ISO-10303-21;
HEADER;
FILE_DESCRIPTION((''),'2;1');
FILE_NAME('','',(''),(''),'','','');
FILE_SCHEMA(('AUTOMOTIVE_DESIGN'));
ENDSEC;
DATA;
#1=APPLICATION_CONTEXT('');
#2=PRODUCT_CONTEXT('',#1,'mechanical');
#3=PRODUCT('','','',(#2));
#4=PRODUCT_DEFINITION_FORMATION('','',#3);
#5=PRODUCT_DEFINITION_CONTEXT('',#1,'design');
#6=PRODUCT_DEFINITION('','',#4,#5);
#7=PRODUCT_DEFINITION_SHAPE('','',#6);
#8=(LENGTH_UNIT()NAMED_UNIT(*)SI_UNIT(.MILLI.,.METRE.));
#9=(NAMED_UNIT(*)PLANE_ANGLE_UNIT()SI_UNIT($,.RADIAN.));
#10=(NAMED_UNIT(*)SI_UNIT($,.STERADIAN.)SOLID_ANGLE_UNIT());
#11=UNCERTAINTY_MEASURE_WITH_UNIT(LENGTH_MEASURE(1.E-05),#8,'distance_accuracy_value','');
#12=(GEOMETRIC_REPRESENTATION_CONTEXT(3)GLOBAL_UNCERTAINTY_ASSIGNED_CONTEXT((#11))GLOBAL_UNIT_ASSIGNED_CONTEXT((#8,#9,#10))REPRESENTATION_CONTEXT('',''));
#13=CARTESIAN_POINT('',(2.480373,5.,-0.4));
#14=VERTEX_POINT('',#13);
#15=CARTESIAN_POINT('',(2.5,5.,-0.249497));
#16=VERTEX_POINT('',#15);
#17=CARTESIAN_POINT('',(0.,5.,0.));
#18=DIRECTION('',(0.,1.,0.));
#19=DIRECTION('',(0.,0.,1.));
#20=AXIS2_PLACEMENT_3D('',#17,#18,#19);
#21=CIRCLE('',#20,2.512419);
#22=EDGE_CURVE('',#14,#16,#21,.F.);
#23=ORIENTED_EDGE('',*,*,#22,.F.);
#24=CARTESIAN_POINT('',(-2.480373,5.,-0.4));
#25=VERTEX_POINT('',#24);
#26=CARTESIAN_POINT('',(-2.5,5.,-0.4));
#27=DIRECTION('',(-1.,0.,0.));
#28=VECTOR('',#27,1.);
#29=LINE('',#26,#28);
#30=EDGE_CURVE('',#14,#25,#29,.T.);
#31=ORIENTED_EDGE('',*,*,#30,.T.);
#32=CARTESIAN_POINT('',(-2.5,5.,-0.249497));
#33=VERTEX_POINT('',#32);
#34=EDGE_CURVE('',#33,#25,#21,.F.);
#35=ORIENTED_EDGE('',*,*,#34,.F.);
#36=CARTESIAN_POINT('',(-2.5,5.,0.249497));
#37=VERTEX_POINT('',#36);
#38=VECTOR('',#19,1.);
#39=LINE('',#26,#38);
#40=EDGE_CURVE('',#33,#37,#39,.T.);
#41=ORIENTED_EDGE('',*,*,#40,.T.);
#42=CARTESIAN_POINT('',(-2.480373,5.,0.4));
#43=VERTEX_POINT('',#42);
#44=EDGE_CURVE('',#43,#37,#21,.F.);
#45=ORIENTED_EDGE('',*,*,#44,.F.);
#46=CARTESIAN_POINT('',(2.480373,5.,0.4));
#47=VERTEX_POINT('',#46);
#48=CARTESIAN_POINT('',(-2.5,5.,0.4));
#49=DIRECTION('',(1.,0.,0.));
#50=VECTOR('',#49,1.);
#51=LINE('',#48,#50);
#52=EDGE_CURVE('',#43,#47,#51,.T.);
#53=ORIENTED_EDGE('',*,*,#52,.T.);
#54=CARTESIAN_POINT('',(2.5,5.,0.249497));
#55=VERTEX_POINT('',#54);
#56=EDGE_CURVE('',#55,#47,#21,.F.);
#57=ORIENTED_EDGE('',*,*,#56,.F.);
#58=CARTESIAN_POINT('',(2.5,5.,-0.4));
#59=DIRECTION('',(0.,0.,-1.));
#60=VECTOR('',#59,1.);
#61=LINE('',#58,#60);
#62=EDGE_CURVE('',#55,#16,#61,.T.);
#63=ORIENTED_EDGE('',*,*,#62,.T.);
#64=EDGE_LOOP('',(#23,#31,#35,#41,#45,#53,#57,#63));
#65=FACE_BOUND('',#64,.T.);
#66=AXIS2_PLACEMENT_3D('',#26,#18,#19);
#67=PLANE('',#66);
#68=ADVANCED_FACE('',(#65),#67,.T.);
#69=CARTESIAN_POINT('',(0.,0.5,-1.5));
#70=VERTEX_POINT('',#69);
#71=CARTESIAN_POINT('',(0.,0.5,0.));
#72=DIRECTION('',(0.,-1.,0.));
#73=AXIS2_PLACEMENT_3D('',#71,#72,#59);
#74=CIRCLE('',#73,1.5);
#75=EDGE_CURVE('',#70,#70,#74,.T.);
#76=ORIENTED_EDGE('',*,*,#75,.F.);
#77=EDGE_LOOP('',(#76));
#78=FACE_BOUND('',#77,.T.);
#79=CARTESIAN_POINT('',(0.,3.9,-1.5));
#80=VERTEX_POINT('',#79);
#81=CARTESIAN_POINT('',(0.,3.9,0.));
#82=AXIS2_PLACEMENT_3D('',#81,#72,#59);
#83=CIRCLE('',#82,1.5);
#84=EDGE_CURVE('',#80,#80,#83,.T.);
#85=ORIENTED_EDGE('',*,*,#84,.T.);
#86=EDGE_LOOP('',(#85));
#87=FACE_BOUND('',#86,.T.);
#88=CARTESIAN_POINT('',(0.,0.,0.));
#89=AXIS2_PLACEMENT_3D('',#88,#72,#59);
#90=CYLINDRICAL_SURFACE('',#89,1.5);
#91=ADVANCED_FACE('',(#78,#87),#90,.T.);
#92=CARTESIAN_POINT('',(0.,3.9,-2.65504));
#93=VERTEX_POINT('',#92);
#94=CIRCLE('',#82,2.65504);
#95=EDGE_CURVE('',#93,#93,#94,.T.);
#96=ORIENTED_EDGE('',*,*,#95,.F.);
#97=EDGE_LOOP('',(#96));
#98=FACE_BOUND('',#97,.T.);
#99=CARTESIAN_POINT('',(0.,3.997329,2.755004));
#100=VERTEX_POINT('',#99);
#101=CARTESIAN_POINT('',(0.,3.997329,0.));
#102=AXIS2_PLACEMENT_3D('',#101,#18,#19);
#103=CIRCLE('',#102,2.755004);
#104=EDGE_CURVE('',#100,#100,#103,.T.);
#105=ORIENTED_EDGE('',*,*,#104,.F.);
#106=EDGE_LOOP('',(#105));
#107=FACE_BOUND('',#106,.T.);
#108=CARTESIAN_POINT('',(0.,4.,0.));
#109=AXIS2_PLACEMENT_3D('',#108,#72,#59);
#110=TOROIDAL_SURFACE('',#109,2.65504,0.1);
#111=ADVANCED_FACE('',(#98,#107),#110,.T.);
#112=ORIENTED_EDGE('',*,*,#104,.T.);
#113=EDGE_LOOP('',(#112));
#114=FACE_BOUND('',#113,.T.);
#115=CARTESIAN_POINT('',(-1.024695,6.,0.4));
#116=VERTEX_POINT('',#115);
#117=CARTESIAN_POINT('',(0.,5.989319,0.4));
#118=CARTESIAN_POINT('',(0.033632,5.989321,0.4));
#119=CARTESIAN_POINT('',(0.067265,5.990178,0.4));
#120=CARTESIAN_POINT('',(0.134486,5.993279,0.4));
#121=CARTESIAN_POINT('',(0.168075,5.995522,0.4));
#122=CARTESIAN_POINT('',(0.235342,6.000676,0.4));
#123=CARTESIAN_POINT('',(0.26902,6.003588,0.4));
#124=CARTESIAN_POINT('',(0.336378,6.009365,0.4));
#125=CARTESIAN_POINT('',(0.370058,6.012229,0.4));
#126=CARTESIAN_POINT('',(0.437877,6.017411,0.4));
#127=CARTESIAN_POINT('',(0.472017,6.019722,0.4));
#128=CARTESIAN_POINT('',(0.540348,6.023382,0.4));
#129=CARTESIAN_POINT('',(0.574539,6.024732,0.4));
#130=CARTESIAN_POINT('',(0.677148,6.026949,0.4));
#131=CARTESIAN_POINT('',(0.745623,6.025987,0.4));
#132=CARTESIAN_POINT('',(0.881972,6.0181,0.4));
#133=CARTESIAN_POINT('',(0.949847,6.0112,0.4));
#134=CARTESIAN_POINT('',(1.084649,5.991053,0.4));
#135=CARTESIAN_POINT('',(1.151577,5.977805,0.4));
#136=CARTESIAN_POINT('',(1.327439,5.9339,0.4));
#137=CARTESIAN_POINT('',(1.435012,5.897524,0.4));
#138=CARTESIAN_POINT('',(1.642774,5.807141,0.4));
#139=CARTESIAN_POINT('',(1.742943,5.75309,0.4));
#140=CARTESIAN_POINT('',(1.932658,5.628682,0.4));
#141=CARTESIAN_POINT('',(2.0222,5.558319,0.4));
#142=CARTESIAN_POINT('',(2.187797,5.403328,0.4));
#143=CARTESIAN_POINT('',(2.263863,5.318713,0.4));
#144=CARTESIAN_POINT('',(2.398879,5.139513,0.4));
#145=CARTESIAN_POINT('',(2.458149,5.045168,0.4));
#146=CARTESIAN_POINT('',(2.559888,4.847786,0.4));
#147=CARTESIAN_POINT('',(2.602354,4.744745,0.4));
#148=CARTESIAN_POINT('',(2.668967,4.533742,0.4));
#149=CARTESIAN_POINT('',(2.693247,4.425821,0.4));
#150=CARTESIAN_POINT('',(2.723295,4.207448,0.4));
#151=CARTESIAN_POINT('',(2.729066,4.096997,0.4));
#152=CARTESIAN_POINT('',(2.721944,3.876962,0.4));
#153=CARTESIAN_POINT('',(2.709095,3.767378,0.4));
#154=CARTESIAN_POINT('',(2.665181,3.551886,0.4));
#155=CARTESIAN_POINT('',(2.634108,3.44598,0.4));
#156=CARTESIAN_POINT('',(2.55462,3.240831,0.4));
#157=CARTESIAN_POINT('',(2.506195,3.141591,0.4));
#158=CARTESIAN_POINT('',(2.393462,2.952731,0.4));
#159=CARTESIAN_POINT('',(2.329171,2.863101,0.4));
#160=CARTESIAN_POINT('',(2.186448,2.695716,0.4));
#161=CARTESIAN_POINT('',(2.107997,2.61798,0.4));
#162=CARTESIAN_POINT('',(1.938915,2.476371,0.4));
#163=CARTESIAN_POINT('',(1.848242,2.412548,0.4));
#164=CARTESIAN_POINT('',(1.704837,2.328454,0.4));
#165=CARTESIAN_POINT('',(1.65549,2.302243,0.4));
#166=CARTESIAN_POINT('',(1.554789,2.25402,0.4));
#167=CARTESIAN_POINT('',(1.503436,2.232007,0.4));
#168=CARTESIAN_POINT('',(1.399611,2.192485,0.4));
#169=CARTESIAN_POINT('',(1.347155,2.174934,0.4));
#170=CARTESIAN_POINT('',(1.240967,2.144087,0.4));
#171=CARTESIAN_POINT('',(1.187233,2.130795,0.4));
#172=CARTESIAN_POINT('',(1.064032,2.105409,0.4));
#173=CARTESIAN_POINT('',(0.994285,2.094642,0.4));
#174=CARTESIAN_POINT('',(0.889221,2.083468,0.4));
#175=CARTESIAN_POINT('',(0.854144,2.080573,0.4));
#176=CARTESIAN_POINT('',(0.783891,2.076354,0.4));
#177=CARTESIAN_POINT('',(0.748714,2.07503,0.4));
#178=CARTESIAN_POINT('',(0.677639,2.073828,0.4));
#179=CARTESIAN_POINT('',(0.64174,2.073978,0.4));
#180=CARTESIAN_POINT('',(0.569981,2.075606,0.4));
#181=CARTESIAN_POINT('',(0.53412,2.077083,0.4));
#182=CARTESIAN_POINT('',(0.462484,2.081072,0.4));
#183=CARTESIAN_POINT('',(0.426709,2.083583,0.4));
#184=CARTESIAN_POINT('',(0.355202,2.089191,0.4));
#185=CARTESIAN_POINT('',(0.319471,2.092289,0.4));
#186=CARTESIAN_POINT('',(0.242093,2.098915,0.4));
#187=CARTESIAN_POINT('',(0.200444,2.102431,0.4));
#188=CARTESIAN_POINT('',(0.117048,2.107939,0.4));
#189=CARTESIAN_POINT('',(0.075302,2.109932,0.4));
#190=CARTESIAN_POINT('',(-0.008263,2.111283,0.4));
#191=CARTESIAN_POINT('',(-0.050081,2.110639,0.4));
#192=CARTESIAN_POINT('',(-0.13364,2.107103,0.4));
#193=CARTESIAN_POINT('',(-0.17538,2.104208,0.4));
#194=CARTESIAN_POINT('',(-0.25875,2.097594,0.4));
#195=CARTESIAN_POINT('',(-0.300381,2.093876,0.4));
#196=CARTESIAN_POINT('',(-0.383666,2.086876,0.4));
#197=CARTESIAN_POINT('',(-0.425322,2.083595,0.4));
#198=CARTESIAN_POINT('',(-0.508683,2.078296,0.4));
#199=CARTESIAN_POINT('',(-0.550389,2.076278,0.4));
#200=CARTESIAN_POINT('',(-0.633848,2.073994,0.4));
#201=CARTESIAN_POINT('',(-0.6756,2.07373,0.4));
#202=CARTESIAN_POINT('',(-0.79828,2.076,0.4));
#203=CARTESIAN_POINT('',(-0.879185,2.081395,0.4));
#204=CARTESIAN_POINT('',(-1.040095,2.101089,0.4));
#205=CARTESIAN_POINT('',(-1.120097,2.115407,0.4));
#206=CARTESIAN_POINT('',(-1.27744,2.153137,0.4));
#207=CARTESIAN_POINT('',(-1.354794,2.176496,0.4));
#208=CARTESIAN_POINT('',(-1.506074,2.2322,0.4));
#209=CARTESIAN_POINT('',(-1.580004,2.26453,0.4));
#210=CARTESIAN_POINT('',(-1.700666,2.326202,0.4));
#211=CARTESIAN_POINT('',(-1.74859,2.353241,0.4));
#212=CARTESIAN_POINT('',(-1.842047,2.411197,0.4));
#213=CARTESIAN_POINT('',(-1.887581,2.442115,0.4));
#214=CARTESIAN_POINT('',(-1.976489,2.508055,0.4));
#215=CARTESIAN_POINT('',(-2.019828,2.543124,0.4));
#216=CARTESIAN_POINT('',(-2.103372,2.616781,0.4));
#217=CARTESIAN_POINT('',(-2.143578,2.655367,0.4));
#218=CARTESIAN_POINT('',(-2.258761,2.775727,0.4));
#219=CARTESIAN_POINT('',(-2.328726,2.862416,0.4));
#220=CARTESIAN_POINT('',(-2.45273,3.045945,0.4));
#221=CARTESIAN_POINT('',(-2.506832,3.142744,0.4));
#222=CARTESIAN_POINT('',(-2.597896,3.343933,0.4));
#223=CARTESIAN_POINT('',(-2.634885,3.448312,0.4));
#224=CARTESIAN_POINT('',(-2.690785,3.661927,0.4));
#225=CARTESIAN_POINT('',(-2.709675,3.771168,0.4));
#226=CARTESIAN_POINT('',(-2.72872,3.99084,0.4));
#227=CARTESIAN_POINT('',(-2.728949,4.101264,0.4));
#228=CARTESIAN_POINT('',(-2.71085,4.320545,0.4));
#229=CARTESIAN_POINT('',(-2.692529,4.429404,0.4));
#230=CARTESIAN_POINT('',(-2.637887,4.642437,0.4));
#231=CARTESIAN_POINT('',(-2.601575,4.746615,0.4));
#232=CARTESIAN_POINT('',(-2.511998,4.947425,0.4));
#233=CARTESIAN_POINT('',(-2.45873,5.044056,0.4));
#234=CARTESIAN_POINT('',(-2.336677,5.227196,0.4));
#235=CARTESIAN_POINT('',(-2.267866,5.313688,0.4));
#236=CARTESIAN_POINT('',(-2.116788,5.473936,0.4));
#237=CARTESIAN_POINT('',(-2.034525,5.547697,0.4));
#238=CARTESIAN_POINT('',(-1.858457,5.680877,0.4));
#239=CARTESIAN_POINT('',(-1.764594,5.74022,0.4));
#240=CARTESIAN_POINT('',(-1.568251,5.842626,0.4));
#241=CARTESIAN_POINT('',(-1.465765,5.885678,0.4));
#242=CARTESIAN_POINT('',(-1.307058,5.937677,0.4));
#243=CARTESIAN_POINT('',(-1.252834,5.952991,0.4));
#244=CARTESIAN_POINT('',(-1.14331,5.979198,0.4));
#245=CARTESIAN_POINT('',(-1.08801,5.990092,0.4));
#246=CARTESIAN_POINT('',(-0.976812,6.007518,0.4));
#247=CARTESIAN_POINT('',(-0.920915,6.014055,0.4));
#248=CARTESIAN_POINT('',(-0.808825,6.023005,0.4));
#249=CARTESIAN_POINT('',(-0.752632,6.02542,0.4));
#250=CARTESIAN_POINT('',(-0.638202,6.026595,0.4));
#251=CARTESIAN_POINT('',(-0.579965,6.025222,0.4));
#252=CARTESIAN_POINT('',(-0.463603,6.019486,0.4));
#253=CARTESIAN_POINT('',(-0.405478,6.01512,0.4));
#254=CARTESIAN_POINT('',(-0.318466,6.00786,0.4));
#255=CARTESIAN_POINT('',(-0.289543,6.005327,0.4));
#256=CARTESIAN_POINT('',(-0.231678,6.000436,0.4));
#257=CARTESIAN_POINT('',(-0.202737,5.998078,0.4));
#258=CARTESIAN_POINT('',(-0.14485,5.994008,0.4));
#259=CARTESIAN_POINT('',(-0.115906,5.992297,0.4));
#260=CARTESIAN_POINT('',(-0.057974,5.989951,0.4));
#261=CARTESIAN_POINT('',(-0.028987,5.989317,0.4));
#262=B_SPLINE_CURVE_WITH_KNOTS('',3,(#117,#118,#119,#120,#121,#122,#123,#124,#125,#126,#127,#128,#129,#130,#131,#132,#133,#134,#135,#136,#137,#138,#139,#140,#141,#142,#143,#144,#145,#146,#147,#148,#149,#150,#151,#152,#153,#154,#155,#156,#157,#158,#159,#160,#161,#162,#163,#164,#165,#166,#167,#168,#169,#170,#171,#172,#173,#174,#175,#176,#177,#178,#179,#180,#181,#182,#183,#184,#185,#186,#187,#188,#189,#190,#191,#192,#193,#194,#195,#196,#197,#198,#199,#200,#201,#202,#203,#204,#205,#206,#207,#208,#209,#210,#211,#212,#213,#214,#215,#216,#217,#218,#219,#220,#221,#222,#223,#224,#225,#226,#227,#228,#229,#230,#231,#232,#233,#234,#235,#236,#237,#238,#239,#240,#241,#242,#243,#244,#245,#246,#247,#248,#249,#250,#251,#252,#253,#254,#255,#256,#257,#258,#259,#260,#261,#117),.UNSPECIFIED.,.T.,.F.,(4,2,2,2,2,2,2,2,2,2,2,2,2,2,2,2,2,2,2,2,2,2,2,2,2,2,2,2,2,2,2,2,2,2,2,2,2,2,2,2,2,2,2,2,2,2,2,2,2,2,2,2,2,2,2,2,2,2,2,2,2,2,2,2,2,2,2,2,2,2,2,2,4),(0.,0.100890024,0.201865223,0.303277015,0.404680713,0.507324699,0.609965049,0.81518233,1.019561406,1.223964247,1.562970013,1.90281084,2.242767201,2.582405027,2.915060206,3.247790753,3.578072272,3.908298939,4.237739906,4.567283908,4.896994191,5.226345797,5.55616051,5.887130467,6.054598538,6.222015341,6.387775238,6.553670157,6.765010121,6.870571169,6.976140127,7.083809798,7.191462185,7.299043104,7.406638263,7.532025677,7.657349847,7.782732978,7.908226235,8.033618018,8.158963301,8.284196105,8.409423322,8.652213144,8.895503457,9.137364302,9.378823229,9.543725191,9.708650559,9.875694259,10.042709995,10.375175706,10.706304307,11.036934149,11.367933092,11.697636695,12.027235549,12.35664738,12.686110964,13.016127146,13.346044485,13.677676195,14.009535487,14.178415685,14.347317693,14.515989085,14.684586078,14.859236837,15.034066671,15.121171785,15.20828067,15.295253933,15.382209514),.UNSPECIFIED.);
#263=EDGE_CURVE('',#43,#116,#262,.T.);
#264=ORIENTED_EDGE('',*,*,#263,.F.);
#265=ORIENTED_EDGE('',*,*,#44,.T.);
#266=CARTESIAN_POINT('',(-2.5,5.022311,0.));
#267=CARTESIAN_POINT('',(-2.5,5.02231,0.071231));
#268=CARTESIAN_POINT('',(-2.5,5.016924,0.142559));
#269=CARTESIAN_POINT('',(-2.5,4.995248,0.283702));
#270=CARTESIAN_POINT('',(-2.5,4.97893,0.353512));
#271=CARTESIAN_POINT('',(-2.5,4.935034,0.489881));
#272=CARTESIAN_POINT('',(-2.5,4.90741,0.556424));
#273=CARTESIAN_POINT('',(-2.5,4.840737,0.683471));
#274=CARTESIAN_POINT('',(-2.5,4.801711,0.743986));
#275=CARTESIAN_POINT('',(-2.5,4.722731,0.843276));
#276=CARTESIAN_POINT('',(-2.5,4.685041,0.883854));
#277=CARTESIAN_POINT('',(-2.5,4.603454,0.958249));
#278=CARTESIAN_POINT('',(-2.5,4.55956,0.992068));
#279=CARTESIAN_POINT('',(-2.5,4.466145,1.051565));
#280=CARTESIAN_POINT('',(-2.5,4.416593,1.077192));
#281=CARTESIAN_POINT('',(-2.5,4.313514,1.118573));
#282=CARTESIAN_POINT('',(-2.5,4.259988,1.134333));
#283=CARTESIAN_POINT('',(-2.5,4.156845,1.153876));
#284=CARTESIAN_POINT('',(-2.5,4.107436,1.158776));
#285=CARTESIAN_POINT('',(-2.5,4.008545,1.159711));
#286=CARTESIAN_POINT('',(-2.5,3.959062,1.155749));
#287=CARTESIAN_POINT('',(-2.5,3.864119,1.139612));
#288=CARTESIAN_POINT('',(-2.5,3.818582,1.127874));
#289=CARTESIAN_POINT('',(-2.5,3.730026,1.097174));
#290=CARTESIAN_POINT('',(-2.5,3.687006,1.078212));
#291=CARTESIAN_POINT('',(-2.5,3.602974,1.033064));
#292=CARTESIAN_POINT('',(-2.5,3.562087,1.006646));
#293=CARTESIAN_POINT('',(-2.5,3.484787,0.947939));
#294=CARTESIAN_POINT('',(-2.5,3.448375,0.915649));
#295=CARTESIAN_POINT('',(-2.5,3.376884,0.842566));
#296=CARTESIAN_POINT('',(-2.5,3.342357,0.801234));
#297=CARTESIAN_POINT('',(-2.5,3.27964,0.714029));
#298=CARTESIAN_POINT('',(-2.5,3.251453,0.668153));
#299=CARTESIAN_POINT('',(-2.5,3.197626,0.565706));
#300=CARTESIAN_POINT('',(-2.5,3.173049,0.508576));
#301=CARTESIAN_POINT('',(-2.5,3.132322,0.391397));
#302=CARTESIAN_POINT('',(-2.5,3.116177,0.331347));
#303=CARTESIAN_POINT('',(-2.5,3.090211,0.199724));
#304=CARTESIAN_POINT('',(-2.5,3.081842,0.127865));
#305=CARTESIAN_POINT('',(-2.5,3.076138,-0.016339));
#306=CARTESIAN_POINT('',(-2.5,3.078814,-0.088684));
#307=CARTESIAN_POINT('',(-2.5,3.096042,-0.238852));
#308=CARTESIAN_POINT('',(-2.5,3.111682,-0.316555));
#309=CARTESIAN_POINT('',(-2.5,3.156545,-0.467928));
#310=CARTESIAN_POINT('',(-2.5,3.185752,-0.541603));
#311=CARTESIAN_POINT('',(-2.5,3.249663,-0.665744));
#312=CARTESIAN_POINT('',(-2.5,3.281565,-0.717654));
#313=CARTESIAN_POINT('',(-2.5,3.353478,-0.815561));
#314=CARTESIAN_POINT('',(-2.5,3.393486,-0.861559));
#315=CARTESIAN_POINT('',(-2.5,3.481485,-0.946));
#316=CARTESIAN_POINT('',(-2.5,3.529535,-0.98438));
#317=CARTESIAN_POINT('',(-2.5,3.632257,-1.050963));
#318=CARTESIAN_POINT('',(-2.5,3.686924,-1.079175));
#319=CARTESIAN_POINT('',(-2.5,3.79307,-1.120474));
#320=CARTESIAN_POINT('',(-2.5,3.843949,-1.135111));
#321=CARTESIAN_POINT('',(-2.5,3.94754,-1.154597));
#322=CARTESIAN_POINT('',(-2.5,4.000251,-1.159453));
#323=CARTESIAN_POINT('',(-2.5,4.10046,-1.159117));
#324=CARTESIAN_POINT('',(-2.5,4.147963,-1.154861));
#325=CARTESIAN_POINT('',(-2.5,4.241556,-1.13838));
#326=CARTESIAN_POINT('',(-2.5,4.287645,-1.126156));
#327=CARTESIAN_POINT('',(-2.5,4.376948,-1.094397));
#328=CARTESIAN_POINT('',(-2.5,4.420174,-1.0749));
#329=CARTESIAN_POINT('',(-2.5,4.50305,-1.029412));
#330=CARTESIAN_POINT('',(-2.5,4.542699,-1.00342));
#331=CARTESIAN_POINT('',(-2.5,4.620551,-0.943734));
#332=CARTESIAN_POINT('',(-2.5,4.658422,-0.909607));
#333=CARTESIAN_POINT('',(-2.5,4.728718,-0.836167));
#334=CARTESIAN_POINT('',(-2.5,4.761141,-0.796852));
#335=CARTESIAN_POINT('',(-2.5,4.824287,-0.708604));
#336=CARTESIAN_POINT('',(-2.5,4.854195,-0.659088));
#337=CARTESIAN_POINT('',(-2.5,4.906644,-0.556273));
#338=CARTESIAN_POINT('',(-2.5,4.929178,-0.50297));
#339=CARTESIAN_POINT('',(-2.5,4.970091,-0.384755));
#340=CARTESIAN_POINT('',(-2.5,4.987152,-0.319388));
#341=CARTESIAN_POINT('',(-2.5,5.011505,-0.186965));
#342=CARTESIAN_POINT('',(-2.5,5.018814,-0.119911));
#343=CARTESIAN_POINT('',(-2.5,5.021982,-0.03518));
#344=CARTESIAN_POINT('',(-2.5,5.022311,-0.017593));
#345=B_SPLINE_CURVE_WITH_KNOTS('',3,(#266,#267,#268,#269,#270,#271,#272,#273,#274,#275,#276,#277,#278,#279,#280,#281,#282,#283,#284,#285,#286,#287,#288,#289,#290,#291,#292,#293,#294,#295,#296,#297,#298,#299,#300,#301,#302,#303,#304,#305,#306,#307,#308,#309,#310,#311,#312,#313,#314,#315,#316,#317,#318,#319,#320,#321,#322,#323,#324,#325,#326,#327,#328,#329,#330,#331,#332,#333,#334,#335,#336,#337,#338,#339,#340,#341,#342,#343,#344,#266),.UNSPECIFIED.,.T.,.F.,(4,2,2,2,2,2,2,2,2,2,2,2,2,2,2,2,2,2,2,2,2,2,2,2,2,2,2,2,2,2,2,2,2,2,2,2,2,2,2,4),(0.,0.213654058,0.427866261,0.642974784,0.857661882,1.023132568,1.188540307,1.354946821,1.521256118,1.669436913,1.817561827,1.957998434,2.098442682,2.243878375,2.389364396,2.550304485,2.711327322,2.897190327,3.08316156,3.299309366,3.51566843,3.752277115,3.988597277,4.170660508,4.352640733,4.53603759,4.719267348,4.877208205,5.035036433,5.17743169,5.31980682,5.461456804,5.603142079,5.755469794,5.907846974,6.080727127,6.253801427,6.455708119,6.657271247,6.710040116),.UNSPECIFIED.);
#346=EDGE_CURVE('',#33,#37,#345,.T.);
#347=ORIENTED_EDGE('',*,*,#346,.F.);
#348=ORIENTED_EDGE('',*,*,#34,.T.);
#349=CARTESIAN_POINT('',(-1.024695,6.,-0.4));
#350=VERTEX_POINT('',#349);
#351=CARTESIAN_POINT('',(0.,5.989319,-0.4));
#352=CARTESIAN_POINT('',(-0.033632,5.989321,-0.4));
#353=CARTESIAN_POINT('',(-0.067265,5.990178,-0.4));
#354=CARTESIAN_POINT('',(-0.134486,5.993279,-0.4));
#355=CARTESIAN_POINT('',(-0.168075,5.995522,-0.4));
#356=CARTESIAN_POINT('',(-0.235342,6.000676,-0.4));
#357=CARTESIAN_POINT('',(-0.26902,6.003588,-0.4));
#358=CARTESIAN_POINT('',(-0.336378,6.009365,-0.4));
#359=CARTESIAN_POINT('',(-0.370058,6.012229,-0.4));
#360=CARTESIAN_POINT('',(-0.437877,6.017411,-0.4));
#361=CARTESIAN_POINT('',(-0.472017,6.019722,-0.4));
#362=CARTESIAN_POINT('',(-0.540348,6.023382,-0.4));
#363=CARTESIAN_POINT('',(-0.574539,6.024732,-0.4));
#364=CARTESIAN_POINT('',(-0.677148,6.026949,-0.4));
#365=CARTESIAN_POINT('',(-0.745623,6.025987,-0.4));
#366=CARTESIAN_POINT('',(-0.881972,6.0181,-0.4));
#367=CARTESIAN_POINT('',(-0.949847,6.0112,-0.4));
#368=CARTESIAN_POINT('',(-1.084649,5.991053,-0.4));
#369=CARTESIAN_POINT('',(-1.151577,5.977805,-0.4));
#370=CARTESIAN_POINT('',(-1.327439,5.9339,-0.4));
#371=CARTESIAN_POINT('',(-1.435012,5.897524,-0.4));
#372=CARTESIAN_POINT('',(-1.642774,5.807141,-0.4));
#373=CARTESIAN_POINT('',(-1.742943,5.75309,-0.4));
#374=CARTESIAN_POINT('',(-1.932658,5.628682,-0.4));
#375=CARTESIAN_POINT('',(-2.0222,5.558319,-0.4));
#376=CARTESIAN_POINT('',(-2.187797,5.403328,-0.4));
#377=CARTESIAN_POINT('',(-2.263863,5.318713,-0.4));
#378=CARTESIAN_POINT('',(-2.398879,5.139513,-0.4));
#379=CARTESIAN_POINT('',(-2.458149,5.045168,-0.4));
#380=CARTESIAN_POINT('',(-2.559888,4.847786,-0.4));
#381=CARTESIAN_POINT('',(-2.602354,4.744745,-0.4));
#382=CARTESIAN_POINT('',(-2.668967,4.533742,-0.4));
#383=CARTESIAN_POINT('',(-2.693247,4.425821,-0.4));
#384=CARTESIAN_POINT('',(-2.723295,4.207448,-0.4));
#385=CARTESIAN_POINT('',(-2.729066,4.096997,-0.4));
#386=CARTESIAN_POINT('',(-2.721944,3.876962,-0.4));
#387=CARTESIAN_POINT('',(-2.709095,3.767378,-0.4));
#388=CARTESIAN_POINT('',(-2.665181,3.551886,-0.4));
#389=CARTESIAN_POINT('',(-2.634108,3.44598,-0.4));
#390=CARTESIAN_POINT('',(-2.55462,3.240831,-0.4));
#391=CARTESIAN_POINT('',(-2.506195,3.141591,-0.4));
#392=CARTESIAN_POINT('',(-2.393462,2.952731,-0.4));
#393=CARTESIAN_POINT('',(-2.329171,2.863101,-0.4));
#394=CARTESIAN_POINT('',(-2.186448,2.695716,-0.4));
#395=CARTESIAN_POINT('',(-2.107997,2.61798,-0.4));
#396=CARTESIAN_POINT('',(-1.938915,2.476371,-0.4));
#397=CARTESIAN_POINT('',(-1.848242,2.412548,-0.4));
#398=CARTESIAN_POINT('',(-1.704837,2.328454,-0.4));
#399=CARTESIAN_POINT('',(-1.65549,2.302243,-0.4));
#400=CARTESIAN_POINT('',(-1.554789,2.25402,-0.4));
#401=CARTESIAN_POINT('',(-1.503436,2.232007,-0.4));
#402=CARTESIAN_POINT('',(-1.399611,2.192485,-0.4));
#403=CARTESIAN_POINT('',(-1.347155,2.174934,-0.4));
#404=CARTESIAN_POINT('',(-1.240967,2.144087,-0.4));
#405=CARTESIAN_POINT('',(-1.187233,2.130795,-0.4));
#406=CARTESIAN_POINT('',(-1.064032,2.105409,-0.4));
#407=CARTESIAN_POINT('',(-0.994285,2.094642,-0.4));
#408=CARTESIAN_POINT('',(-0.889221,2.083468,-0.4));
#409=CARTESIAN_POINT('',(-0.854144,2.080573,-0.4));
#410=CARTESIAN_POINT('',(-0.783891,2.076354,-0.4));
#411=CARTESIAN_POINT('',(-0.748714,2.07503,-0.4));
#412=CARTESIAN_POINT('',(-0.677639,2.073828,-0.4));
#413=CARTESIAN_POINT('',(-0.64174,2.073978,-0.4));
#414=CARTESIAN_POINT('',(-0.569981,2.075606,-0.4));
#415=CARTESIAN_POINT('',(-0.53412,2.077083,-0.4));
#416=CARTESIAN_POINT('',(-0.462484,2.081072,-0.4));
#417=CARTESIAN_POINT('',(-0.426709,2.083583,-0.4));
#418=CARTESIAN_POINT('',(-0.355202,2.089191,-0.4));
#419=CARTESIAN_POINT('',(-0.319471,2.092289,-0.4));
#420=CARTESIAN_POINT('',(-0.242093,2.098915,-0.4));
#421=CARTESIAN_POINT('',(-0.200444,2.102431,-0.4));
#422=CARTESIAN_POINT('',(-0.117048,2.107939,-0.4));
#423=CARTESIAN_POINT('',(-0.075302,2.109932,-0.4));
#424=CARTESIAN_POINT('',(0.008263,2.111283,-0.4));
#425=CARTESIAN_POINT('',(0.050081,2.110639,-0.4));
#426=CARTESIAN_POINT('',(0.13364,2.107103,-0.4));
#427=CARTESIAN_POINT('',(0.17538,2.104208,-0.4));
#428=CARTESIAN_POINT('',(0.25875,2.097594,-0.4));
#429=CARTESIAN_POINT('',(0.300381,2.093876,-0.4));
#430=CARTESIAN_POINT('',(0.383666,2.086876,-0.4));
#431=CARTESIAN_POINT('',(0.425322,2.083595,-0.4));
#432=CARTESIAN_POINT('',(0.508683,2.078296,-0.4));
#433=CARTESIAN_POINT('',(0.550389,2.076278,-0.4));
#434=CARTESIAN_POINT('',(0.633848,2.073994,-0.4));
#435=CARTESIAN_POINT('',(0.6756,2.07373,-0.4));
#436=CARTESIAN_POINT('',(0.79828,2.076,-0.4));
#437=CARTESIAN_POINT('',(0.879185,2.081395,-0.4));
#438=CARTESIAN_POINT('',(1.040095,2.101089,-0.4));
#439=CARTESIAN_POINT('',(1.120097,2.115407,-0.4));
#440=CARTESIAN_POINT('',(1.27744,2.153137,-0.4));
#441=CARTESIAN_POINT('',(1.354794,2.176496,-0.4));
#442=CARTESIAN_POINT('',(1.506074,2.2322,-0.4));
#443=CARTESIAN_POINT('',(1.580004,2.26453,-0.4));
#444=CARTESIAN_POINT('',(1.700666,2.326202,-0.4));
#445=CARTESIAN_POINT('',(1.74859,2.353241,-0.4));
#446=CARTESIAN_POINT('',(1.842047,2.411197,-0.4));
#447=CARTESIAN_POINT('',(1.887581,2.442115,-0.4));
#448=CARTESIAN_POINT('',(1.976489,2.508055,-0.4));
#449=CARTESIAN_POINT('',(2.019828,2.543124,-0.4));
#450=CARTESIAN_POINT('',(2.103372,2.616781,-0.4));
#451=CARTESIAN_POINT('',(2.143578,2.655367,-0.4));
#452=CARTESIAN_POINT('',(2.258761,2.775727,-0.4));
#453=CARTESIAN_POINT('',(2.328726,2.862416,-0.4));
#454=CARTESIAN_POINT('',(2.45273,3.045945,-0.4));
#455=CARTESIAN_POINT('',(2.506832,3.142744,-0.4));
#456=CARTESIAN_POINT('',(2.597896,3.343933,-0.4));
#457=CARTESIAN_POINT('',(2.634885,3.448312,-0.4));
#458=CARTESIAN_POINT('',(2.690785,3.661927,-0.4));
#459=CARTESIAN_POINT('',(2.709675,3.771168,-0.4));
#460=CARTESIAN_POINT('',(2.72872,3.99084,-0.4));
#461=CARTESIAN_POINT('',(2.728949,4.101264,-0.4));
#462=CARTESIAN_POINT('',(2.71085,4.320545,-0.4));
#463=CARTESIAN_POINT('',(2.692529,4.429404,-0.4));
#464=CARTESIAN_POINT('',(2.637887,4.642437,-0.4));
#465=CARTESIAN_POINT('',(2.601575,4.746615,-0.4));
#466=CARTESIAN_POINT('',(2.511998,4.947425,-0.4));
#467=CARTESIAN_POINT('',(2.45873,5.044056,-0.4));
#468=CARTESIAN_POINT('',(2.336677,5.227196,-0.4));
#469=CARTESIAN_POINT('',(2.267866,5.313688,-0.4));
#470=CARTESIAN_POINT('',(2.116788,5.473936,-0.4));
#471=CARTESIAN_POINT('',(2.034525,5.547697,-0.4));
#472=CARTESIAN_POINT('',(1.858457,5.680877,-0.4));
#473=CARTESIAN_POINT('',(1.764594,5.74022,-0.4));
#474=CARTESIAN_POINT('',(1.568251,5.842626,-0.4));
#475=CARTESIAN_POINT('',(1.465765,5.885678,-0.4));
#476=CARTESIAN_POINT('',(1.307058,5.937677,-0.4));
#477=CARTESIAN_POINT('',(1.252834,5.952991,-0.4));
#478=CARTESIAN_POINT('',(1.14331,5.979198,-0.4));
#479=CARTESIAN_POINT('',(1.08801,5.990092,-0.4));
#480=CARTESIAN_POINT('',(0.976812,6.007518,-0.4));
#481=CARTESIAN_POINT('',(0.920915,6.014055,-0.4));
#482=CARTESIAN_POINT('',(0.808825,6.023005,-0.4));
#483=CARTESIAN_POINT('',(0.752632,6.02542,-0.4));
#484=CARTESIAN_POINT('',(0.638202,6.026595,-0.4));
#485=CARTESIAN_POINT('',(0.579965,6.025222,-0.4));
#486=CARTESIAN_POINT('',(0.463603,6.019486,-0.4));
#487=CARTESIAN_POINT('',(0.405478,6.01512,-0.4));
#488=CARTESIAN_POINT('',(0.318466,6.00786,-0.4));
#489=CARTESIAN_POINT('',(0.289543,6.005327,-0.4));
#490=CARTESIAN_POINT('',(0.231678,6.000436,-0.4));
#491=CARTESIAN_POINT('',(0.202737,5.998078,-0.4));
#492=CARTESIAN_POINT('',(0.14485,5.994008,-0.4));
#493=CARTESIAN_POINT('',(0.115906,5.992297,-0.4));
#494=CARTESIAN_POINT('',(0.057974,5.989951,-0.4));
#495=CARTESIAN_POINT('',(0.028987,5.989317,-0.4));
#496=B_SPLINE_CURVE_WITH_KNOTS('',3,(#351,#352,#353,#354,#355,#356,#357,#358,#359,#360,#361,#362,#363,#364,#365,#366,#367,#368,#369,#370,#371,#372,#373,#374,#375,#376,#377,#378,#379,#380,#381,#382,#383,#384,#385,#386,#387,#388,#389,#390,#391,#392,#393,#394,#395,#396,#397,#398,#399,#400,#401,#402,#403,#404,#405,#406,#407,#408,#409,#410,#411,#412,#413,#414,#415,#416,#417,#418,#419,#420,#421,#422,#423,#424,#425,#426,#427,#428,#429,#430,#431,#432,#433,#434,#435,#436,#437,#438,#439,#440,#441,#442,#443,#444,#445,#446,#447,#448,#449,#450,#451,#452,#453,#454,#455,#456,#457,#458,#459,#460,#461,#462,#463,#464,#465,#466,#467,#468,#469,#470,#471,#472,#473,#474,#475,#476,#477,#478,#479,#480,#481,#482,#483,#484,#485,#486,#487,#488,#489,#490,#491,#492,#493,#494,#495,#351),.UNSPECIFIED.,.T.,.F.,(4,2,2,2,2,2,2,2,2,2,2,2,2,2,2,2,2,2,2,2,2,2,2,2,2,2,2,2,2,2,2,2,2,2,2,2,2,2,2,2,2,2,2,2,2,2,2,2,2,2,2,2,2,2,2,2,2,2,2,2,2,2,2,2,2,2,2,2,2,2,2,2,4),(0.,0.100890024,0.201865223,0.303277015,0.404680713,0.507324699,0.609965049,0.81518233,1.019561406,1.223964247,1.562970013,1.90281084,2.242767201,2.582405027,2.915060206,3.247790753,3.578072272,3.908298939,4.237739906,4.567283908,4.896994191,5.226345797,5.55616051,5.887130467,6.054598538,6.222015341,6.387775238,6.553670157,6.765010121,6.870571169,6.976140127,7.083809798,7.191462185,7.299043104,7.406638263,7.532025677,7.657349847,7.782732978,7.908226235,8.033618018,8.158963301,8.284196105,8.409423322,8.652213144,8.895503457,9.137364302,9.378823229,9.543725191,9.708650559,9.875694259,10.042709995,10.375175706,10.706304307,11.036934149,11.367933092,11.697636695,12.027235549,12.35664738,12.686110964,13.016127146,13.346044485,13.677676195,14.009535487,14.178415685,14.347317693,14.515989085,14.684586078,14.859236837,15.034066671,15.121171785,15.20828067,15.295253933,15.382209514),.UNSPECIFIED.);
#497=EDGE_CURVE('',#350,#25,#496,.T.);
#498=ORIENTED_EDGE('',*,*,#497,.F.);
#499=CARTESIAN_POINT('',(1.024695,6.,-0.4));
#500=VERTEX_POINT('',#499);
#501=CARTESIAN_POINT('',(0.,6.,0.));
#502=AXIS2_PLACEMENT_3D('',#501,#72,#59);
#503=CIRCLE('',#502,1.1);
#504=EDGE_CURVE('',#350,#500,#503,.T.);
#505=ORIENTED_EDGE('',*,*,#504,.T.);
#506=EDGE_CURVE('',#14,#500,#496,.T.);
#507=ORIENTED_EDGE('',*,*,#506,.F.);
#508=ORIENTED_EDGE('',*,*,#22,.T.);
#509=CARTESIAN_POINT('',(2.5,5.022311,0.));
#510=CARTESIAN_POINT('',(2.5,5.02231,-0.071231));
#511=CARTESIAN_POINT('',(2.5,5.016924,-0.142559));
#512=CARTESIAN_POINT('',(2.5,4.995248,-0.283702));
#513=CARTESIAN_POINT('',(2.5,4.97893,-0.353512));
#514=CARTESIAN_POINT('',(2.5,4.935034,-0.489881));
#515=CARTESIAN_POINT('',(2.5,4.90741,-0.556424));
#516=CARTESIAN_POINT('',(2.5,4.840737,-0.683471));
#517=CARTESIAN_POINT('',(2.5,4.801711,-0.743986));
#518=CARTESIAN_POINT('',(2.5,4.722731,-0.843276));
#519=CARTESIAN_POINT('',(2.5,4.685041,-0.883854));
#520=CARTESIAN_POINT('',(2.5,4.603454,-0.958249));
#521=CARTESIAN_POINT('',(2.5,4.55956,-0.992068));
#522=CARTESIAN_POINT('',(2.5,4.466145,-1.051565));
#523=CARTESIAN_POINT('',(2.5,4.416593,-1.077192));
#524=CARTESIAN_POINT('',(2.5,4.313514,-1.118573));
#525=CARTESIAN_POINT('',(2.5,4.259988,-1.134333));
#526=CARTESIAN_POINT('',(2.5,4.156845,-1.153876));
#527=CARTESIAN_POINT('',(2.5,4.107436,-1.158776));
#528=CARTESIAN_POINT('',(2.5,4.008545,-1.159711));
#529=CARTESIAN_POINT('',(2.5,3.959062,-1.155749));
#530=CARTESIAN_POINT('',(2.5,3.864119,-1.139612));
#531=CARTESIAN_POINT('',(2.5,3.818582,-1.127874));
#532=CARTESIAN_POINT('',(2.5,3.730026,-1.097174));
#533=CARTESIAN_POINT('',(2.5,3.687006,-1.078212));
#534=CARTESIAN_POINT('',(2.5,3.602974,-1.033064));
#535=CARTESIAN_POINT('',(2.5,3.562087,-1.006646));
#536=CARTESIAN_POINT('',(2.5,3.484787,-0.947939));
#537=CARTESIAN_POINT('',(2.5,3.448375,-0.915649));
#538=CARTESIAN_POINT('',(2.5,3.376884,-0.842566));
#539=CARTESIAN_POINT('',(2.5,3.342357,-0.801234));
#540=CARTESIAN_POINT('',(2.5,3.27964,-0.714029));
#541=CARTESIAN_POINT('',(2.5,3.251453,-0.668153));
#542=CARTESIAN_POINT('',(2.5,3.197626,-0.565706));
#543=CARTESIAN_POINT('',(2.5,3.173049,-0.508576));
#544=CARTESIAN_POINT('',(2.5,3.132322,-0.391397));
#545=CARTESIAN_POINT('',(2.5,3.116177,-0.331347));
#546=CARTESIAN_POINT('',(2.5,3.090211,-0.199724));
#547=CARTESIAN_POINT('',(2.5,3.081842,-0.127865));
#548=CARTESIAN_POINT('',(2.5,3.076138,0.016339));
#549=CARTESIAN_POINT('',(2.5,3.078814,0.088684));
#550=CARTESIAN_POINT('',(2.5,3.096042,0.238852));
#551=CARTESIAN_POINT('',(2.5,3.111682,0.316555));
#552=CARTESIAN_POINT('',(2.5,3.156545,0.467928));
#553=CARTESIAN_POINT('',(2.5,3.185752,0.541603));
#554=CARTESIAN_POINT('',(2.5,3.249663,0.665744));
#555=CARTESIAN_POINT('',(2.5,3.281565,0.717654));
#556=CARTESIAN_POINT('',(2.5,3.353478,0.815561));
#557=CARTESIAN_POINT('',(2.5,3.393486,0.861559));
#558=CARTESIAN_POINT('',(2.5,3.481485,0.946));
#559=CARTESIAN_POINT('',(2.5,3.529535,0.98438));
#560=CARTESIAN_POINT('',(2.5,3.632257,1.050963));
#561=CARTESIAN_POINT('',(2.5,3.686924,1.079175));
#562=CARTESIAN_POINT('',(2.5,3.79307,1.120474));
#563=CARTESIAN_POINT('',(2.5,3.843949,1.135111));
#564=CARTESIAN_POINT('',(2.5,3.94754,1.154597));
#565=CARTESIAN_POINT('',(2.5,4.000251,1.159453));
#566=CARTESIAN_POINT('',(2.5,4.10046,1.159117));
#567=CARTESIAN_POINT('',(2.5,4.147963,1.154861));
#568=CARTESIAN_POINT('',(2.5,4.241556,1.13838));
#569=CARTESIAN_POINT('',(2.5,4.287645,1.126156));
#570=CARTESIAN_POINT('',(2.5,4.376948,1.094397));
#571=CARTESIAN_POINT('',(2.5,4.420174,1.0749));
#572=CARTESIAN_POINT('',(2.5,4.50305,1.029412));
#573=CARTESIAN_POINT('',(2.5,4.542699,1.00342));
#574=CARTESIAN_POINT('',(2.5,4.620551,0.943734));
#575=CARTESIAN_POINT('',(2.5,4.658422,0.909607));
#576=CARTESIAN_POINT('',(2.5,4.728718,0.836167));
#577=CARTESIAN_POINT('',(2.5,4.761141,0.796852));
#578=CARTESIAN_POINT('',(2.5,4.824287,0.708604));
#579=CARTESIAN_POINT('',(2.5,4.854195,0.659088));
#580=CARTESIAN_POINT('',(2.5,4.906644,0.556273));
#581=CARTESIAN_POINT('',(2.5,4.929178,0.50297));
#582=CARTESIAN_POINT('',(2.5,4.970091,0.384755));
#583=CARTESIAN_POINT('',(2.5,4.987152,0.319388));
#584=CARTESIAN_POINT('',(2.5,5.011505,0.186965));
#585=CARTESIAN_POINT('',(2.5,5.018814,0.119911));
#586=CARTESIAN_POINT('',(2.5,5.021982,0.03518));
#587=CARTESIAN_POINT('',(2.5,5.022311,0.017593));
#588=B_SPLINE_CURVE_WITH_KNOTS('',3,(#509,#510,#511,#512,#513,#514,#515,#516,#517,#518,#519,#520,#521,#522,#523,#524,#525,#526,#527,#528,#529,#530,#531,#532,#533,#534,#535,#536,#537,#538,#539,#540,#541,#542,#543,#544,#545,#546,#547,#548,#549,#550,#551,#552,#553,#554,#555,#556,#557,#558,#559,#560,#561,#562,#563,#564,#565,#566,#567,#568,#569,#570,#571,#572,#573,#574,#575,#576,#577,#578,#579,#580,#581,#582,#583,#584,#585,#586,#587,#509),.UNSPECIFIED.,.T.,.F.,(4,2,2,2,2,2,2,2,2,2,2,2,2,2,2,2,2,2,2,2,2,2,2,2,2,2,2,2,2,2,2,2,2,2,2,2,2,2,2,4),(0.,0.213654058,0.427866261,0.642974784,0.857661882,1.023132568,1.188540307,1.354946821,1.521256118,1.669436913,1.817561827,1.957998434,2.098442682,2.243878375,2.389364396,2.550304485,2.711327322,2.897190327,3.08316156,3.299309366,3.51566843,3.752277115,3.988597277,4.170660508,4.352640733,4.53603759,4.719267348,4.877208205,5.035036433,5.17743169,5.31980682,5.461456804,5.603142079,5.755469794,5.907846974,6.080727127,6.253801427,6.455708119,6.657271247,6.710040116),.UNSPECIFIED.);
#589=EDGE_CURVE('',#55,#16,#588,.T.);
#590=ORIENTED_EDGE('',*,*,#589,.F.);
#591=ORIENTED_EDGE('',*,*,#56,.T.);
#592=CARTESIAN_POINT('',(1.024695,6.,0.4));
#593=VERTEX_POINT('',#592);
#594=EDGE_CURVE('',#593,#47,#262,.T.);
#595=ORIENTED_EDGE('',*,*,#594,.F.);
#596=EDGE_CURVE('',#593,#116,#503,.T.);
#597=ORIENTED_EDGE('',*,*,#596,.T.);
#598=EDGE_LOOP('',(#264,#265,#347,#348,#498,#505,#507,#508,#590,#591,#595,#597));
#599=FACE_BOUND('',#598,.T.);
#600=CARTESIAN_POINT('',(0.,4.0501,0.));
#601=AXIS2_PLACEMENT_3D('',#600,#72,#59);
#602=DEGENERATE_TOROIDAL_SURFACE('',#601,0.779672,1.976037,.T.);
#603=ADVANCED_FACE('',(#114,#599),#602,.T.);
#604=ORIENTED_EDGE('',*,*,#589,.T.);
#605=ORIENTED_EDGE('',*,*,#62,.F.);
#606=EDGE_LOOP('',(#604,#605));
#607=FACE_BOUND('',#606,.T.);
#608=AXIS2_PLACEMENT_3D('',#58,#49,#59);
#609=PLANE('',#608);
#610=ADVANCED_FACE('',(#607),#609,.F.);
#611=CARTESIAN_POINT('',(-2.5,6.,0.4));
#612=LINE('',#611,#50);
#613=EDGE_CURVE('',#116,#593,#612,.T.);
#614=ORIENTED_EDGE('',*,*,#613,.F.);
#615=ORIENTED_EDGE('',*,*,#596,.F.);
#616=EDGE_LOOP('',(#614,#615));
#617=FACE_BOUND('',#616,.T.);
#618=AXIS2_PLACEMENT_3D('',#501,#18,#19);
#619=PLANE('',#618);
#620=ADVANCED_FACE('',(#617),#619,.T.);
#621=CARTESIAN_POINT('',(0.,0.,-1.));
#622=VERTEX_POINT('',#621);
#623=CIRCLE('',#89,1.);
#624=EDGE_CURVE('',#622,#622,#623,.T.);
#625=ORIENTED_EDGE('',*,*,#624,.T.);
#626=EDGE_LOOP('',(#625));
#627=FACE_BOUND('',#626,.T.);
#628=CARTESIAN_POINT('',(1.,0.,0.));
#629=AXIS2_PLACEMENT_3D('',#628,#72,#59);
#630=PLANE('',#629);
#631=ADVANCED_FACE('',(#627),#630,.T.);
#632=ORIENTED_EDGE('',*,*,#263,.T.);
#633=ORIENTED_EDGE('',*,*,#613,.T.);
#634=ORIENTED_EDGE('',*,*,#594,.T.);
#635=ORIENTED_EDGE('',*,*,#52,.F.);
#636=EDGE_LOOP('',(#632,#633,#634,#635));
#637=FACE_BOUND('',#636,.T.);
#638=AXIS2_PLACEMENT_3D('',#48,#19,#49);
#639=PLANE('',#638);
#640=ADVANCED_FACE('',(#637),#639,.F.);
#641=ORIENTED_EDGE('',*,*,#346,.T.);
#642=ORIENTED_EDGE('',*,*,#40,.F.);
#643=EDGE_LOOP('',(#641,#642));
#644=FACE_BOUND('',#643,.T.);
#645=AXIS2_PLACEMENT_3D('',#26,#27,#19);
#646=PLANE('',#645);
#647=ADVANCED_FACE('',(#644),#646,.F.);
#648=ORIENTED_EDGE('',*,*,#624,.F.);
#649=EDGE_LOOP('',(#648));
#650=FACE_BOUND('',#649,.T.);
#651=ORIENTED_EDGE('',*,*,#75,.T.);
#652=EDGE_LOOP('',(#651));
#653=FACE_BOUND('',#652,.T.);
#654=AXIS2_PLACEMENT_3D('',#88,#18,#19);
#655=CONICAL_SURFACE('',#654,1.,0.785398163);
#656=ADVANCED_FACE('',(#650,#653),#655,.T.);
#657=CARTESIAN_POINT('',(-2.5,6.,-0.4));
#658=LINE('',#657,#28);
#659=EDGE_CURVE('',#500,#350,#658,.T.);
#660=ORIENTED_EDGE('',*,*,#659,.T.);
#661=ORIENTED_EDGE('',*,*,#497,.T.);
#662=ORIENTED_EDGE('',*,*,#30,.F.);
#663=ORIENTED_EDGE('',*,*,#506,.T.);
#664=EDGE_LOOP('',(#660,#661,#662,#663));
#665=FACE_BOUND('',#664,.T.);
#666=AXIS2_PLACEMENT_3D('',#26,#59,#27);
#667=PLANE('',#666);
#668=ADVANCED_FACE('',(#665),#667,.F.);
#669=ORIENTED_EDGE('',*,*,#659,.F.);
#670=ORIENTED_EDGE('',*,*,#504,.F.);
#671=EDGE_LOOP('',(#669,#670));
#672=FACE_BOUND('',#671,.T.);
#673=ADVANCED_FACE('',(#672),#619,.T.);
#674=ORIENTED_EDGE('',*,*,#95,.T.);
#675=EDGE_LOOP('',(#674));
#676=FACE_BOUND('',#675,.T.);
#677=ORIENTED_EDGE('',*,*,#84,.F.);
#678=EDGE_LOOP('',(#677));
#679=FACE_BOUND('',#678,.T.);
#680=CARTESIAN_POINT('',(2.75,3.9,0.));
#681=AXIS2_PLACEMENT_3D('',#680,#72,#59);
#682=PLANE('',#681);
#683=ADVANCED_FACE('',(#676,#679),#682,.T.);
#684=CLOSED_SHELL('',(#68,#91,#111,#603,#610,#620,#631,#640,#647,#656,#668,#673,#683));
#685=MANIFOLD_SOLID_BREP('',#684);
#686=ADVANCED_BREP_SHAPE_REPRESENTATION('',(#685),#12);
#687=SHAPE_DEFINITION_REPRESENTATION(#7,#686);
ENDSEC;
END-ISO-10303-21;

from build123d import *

# Parameters (mm, degrees)
FILLET_1_R          = 0.1
SKETCH_3_W          = 5
SKETCH_3_H          = 0.8
CUT_EXTRUDE_2_DEPTH = 1


with BuildPart() as part:
    # Эскиз1 → Повернуть1 (revolve)
    with BuildSketch(Plane.XY):
        with BuildLine():
            Line((2.75, 3.9), (1.5, 3.9))
            Line((1.5, 3.9), (1.5, 0.5))
            Line((1.5, 0.5), (1, 0))
            Line((1, 0), (0, 0))
            Line((0, 0), (0, 6))
            Line((0, 6), (1.1, 6))
            ThreePointArc((1.1, 6), (2.333466256, 5.270937772), (2.75, 3.9))
        make_face()
    revolve(axis=Axis((0, 0, 0), (0, 1, 0)))

    # Скругление1
    fillet_1_edges = [part.edges().sort_by_distance(p)[0] for p in [
        (-2.75, 3.9, 0),
    ]]
    fillet(fillet_1_edges, radius=FILLET_1_R)

    # Эскиз3 → Вырез-Вытянуть2 (cut)
    with BuildSketch(Plane(origin=(0, 6, 0), x_dir=(-1, 0, 0), z_dir=(0, 1, 0))):
        Rectangle(SKETCH_3_W, SKETCH_3_H)
    extrude(amount=-CUT_EXTRUDE_2_DEPTH, mode=Mode.SUBTRACT)


solid = part.part
